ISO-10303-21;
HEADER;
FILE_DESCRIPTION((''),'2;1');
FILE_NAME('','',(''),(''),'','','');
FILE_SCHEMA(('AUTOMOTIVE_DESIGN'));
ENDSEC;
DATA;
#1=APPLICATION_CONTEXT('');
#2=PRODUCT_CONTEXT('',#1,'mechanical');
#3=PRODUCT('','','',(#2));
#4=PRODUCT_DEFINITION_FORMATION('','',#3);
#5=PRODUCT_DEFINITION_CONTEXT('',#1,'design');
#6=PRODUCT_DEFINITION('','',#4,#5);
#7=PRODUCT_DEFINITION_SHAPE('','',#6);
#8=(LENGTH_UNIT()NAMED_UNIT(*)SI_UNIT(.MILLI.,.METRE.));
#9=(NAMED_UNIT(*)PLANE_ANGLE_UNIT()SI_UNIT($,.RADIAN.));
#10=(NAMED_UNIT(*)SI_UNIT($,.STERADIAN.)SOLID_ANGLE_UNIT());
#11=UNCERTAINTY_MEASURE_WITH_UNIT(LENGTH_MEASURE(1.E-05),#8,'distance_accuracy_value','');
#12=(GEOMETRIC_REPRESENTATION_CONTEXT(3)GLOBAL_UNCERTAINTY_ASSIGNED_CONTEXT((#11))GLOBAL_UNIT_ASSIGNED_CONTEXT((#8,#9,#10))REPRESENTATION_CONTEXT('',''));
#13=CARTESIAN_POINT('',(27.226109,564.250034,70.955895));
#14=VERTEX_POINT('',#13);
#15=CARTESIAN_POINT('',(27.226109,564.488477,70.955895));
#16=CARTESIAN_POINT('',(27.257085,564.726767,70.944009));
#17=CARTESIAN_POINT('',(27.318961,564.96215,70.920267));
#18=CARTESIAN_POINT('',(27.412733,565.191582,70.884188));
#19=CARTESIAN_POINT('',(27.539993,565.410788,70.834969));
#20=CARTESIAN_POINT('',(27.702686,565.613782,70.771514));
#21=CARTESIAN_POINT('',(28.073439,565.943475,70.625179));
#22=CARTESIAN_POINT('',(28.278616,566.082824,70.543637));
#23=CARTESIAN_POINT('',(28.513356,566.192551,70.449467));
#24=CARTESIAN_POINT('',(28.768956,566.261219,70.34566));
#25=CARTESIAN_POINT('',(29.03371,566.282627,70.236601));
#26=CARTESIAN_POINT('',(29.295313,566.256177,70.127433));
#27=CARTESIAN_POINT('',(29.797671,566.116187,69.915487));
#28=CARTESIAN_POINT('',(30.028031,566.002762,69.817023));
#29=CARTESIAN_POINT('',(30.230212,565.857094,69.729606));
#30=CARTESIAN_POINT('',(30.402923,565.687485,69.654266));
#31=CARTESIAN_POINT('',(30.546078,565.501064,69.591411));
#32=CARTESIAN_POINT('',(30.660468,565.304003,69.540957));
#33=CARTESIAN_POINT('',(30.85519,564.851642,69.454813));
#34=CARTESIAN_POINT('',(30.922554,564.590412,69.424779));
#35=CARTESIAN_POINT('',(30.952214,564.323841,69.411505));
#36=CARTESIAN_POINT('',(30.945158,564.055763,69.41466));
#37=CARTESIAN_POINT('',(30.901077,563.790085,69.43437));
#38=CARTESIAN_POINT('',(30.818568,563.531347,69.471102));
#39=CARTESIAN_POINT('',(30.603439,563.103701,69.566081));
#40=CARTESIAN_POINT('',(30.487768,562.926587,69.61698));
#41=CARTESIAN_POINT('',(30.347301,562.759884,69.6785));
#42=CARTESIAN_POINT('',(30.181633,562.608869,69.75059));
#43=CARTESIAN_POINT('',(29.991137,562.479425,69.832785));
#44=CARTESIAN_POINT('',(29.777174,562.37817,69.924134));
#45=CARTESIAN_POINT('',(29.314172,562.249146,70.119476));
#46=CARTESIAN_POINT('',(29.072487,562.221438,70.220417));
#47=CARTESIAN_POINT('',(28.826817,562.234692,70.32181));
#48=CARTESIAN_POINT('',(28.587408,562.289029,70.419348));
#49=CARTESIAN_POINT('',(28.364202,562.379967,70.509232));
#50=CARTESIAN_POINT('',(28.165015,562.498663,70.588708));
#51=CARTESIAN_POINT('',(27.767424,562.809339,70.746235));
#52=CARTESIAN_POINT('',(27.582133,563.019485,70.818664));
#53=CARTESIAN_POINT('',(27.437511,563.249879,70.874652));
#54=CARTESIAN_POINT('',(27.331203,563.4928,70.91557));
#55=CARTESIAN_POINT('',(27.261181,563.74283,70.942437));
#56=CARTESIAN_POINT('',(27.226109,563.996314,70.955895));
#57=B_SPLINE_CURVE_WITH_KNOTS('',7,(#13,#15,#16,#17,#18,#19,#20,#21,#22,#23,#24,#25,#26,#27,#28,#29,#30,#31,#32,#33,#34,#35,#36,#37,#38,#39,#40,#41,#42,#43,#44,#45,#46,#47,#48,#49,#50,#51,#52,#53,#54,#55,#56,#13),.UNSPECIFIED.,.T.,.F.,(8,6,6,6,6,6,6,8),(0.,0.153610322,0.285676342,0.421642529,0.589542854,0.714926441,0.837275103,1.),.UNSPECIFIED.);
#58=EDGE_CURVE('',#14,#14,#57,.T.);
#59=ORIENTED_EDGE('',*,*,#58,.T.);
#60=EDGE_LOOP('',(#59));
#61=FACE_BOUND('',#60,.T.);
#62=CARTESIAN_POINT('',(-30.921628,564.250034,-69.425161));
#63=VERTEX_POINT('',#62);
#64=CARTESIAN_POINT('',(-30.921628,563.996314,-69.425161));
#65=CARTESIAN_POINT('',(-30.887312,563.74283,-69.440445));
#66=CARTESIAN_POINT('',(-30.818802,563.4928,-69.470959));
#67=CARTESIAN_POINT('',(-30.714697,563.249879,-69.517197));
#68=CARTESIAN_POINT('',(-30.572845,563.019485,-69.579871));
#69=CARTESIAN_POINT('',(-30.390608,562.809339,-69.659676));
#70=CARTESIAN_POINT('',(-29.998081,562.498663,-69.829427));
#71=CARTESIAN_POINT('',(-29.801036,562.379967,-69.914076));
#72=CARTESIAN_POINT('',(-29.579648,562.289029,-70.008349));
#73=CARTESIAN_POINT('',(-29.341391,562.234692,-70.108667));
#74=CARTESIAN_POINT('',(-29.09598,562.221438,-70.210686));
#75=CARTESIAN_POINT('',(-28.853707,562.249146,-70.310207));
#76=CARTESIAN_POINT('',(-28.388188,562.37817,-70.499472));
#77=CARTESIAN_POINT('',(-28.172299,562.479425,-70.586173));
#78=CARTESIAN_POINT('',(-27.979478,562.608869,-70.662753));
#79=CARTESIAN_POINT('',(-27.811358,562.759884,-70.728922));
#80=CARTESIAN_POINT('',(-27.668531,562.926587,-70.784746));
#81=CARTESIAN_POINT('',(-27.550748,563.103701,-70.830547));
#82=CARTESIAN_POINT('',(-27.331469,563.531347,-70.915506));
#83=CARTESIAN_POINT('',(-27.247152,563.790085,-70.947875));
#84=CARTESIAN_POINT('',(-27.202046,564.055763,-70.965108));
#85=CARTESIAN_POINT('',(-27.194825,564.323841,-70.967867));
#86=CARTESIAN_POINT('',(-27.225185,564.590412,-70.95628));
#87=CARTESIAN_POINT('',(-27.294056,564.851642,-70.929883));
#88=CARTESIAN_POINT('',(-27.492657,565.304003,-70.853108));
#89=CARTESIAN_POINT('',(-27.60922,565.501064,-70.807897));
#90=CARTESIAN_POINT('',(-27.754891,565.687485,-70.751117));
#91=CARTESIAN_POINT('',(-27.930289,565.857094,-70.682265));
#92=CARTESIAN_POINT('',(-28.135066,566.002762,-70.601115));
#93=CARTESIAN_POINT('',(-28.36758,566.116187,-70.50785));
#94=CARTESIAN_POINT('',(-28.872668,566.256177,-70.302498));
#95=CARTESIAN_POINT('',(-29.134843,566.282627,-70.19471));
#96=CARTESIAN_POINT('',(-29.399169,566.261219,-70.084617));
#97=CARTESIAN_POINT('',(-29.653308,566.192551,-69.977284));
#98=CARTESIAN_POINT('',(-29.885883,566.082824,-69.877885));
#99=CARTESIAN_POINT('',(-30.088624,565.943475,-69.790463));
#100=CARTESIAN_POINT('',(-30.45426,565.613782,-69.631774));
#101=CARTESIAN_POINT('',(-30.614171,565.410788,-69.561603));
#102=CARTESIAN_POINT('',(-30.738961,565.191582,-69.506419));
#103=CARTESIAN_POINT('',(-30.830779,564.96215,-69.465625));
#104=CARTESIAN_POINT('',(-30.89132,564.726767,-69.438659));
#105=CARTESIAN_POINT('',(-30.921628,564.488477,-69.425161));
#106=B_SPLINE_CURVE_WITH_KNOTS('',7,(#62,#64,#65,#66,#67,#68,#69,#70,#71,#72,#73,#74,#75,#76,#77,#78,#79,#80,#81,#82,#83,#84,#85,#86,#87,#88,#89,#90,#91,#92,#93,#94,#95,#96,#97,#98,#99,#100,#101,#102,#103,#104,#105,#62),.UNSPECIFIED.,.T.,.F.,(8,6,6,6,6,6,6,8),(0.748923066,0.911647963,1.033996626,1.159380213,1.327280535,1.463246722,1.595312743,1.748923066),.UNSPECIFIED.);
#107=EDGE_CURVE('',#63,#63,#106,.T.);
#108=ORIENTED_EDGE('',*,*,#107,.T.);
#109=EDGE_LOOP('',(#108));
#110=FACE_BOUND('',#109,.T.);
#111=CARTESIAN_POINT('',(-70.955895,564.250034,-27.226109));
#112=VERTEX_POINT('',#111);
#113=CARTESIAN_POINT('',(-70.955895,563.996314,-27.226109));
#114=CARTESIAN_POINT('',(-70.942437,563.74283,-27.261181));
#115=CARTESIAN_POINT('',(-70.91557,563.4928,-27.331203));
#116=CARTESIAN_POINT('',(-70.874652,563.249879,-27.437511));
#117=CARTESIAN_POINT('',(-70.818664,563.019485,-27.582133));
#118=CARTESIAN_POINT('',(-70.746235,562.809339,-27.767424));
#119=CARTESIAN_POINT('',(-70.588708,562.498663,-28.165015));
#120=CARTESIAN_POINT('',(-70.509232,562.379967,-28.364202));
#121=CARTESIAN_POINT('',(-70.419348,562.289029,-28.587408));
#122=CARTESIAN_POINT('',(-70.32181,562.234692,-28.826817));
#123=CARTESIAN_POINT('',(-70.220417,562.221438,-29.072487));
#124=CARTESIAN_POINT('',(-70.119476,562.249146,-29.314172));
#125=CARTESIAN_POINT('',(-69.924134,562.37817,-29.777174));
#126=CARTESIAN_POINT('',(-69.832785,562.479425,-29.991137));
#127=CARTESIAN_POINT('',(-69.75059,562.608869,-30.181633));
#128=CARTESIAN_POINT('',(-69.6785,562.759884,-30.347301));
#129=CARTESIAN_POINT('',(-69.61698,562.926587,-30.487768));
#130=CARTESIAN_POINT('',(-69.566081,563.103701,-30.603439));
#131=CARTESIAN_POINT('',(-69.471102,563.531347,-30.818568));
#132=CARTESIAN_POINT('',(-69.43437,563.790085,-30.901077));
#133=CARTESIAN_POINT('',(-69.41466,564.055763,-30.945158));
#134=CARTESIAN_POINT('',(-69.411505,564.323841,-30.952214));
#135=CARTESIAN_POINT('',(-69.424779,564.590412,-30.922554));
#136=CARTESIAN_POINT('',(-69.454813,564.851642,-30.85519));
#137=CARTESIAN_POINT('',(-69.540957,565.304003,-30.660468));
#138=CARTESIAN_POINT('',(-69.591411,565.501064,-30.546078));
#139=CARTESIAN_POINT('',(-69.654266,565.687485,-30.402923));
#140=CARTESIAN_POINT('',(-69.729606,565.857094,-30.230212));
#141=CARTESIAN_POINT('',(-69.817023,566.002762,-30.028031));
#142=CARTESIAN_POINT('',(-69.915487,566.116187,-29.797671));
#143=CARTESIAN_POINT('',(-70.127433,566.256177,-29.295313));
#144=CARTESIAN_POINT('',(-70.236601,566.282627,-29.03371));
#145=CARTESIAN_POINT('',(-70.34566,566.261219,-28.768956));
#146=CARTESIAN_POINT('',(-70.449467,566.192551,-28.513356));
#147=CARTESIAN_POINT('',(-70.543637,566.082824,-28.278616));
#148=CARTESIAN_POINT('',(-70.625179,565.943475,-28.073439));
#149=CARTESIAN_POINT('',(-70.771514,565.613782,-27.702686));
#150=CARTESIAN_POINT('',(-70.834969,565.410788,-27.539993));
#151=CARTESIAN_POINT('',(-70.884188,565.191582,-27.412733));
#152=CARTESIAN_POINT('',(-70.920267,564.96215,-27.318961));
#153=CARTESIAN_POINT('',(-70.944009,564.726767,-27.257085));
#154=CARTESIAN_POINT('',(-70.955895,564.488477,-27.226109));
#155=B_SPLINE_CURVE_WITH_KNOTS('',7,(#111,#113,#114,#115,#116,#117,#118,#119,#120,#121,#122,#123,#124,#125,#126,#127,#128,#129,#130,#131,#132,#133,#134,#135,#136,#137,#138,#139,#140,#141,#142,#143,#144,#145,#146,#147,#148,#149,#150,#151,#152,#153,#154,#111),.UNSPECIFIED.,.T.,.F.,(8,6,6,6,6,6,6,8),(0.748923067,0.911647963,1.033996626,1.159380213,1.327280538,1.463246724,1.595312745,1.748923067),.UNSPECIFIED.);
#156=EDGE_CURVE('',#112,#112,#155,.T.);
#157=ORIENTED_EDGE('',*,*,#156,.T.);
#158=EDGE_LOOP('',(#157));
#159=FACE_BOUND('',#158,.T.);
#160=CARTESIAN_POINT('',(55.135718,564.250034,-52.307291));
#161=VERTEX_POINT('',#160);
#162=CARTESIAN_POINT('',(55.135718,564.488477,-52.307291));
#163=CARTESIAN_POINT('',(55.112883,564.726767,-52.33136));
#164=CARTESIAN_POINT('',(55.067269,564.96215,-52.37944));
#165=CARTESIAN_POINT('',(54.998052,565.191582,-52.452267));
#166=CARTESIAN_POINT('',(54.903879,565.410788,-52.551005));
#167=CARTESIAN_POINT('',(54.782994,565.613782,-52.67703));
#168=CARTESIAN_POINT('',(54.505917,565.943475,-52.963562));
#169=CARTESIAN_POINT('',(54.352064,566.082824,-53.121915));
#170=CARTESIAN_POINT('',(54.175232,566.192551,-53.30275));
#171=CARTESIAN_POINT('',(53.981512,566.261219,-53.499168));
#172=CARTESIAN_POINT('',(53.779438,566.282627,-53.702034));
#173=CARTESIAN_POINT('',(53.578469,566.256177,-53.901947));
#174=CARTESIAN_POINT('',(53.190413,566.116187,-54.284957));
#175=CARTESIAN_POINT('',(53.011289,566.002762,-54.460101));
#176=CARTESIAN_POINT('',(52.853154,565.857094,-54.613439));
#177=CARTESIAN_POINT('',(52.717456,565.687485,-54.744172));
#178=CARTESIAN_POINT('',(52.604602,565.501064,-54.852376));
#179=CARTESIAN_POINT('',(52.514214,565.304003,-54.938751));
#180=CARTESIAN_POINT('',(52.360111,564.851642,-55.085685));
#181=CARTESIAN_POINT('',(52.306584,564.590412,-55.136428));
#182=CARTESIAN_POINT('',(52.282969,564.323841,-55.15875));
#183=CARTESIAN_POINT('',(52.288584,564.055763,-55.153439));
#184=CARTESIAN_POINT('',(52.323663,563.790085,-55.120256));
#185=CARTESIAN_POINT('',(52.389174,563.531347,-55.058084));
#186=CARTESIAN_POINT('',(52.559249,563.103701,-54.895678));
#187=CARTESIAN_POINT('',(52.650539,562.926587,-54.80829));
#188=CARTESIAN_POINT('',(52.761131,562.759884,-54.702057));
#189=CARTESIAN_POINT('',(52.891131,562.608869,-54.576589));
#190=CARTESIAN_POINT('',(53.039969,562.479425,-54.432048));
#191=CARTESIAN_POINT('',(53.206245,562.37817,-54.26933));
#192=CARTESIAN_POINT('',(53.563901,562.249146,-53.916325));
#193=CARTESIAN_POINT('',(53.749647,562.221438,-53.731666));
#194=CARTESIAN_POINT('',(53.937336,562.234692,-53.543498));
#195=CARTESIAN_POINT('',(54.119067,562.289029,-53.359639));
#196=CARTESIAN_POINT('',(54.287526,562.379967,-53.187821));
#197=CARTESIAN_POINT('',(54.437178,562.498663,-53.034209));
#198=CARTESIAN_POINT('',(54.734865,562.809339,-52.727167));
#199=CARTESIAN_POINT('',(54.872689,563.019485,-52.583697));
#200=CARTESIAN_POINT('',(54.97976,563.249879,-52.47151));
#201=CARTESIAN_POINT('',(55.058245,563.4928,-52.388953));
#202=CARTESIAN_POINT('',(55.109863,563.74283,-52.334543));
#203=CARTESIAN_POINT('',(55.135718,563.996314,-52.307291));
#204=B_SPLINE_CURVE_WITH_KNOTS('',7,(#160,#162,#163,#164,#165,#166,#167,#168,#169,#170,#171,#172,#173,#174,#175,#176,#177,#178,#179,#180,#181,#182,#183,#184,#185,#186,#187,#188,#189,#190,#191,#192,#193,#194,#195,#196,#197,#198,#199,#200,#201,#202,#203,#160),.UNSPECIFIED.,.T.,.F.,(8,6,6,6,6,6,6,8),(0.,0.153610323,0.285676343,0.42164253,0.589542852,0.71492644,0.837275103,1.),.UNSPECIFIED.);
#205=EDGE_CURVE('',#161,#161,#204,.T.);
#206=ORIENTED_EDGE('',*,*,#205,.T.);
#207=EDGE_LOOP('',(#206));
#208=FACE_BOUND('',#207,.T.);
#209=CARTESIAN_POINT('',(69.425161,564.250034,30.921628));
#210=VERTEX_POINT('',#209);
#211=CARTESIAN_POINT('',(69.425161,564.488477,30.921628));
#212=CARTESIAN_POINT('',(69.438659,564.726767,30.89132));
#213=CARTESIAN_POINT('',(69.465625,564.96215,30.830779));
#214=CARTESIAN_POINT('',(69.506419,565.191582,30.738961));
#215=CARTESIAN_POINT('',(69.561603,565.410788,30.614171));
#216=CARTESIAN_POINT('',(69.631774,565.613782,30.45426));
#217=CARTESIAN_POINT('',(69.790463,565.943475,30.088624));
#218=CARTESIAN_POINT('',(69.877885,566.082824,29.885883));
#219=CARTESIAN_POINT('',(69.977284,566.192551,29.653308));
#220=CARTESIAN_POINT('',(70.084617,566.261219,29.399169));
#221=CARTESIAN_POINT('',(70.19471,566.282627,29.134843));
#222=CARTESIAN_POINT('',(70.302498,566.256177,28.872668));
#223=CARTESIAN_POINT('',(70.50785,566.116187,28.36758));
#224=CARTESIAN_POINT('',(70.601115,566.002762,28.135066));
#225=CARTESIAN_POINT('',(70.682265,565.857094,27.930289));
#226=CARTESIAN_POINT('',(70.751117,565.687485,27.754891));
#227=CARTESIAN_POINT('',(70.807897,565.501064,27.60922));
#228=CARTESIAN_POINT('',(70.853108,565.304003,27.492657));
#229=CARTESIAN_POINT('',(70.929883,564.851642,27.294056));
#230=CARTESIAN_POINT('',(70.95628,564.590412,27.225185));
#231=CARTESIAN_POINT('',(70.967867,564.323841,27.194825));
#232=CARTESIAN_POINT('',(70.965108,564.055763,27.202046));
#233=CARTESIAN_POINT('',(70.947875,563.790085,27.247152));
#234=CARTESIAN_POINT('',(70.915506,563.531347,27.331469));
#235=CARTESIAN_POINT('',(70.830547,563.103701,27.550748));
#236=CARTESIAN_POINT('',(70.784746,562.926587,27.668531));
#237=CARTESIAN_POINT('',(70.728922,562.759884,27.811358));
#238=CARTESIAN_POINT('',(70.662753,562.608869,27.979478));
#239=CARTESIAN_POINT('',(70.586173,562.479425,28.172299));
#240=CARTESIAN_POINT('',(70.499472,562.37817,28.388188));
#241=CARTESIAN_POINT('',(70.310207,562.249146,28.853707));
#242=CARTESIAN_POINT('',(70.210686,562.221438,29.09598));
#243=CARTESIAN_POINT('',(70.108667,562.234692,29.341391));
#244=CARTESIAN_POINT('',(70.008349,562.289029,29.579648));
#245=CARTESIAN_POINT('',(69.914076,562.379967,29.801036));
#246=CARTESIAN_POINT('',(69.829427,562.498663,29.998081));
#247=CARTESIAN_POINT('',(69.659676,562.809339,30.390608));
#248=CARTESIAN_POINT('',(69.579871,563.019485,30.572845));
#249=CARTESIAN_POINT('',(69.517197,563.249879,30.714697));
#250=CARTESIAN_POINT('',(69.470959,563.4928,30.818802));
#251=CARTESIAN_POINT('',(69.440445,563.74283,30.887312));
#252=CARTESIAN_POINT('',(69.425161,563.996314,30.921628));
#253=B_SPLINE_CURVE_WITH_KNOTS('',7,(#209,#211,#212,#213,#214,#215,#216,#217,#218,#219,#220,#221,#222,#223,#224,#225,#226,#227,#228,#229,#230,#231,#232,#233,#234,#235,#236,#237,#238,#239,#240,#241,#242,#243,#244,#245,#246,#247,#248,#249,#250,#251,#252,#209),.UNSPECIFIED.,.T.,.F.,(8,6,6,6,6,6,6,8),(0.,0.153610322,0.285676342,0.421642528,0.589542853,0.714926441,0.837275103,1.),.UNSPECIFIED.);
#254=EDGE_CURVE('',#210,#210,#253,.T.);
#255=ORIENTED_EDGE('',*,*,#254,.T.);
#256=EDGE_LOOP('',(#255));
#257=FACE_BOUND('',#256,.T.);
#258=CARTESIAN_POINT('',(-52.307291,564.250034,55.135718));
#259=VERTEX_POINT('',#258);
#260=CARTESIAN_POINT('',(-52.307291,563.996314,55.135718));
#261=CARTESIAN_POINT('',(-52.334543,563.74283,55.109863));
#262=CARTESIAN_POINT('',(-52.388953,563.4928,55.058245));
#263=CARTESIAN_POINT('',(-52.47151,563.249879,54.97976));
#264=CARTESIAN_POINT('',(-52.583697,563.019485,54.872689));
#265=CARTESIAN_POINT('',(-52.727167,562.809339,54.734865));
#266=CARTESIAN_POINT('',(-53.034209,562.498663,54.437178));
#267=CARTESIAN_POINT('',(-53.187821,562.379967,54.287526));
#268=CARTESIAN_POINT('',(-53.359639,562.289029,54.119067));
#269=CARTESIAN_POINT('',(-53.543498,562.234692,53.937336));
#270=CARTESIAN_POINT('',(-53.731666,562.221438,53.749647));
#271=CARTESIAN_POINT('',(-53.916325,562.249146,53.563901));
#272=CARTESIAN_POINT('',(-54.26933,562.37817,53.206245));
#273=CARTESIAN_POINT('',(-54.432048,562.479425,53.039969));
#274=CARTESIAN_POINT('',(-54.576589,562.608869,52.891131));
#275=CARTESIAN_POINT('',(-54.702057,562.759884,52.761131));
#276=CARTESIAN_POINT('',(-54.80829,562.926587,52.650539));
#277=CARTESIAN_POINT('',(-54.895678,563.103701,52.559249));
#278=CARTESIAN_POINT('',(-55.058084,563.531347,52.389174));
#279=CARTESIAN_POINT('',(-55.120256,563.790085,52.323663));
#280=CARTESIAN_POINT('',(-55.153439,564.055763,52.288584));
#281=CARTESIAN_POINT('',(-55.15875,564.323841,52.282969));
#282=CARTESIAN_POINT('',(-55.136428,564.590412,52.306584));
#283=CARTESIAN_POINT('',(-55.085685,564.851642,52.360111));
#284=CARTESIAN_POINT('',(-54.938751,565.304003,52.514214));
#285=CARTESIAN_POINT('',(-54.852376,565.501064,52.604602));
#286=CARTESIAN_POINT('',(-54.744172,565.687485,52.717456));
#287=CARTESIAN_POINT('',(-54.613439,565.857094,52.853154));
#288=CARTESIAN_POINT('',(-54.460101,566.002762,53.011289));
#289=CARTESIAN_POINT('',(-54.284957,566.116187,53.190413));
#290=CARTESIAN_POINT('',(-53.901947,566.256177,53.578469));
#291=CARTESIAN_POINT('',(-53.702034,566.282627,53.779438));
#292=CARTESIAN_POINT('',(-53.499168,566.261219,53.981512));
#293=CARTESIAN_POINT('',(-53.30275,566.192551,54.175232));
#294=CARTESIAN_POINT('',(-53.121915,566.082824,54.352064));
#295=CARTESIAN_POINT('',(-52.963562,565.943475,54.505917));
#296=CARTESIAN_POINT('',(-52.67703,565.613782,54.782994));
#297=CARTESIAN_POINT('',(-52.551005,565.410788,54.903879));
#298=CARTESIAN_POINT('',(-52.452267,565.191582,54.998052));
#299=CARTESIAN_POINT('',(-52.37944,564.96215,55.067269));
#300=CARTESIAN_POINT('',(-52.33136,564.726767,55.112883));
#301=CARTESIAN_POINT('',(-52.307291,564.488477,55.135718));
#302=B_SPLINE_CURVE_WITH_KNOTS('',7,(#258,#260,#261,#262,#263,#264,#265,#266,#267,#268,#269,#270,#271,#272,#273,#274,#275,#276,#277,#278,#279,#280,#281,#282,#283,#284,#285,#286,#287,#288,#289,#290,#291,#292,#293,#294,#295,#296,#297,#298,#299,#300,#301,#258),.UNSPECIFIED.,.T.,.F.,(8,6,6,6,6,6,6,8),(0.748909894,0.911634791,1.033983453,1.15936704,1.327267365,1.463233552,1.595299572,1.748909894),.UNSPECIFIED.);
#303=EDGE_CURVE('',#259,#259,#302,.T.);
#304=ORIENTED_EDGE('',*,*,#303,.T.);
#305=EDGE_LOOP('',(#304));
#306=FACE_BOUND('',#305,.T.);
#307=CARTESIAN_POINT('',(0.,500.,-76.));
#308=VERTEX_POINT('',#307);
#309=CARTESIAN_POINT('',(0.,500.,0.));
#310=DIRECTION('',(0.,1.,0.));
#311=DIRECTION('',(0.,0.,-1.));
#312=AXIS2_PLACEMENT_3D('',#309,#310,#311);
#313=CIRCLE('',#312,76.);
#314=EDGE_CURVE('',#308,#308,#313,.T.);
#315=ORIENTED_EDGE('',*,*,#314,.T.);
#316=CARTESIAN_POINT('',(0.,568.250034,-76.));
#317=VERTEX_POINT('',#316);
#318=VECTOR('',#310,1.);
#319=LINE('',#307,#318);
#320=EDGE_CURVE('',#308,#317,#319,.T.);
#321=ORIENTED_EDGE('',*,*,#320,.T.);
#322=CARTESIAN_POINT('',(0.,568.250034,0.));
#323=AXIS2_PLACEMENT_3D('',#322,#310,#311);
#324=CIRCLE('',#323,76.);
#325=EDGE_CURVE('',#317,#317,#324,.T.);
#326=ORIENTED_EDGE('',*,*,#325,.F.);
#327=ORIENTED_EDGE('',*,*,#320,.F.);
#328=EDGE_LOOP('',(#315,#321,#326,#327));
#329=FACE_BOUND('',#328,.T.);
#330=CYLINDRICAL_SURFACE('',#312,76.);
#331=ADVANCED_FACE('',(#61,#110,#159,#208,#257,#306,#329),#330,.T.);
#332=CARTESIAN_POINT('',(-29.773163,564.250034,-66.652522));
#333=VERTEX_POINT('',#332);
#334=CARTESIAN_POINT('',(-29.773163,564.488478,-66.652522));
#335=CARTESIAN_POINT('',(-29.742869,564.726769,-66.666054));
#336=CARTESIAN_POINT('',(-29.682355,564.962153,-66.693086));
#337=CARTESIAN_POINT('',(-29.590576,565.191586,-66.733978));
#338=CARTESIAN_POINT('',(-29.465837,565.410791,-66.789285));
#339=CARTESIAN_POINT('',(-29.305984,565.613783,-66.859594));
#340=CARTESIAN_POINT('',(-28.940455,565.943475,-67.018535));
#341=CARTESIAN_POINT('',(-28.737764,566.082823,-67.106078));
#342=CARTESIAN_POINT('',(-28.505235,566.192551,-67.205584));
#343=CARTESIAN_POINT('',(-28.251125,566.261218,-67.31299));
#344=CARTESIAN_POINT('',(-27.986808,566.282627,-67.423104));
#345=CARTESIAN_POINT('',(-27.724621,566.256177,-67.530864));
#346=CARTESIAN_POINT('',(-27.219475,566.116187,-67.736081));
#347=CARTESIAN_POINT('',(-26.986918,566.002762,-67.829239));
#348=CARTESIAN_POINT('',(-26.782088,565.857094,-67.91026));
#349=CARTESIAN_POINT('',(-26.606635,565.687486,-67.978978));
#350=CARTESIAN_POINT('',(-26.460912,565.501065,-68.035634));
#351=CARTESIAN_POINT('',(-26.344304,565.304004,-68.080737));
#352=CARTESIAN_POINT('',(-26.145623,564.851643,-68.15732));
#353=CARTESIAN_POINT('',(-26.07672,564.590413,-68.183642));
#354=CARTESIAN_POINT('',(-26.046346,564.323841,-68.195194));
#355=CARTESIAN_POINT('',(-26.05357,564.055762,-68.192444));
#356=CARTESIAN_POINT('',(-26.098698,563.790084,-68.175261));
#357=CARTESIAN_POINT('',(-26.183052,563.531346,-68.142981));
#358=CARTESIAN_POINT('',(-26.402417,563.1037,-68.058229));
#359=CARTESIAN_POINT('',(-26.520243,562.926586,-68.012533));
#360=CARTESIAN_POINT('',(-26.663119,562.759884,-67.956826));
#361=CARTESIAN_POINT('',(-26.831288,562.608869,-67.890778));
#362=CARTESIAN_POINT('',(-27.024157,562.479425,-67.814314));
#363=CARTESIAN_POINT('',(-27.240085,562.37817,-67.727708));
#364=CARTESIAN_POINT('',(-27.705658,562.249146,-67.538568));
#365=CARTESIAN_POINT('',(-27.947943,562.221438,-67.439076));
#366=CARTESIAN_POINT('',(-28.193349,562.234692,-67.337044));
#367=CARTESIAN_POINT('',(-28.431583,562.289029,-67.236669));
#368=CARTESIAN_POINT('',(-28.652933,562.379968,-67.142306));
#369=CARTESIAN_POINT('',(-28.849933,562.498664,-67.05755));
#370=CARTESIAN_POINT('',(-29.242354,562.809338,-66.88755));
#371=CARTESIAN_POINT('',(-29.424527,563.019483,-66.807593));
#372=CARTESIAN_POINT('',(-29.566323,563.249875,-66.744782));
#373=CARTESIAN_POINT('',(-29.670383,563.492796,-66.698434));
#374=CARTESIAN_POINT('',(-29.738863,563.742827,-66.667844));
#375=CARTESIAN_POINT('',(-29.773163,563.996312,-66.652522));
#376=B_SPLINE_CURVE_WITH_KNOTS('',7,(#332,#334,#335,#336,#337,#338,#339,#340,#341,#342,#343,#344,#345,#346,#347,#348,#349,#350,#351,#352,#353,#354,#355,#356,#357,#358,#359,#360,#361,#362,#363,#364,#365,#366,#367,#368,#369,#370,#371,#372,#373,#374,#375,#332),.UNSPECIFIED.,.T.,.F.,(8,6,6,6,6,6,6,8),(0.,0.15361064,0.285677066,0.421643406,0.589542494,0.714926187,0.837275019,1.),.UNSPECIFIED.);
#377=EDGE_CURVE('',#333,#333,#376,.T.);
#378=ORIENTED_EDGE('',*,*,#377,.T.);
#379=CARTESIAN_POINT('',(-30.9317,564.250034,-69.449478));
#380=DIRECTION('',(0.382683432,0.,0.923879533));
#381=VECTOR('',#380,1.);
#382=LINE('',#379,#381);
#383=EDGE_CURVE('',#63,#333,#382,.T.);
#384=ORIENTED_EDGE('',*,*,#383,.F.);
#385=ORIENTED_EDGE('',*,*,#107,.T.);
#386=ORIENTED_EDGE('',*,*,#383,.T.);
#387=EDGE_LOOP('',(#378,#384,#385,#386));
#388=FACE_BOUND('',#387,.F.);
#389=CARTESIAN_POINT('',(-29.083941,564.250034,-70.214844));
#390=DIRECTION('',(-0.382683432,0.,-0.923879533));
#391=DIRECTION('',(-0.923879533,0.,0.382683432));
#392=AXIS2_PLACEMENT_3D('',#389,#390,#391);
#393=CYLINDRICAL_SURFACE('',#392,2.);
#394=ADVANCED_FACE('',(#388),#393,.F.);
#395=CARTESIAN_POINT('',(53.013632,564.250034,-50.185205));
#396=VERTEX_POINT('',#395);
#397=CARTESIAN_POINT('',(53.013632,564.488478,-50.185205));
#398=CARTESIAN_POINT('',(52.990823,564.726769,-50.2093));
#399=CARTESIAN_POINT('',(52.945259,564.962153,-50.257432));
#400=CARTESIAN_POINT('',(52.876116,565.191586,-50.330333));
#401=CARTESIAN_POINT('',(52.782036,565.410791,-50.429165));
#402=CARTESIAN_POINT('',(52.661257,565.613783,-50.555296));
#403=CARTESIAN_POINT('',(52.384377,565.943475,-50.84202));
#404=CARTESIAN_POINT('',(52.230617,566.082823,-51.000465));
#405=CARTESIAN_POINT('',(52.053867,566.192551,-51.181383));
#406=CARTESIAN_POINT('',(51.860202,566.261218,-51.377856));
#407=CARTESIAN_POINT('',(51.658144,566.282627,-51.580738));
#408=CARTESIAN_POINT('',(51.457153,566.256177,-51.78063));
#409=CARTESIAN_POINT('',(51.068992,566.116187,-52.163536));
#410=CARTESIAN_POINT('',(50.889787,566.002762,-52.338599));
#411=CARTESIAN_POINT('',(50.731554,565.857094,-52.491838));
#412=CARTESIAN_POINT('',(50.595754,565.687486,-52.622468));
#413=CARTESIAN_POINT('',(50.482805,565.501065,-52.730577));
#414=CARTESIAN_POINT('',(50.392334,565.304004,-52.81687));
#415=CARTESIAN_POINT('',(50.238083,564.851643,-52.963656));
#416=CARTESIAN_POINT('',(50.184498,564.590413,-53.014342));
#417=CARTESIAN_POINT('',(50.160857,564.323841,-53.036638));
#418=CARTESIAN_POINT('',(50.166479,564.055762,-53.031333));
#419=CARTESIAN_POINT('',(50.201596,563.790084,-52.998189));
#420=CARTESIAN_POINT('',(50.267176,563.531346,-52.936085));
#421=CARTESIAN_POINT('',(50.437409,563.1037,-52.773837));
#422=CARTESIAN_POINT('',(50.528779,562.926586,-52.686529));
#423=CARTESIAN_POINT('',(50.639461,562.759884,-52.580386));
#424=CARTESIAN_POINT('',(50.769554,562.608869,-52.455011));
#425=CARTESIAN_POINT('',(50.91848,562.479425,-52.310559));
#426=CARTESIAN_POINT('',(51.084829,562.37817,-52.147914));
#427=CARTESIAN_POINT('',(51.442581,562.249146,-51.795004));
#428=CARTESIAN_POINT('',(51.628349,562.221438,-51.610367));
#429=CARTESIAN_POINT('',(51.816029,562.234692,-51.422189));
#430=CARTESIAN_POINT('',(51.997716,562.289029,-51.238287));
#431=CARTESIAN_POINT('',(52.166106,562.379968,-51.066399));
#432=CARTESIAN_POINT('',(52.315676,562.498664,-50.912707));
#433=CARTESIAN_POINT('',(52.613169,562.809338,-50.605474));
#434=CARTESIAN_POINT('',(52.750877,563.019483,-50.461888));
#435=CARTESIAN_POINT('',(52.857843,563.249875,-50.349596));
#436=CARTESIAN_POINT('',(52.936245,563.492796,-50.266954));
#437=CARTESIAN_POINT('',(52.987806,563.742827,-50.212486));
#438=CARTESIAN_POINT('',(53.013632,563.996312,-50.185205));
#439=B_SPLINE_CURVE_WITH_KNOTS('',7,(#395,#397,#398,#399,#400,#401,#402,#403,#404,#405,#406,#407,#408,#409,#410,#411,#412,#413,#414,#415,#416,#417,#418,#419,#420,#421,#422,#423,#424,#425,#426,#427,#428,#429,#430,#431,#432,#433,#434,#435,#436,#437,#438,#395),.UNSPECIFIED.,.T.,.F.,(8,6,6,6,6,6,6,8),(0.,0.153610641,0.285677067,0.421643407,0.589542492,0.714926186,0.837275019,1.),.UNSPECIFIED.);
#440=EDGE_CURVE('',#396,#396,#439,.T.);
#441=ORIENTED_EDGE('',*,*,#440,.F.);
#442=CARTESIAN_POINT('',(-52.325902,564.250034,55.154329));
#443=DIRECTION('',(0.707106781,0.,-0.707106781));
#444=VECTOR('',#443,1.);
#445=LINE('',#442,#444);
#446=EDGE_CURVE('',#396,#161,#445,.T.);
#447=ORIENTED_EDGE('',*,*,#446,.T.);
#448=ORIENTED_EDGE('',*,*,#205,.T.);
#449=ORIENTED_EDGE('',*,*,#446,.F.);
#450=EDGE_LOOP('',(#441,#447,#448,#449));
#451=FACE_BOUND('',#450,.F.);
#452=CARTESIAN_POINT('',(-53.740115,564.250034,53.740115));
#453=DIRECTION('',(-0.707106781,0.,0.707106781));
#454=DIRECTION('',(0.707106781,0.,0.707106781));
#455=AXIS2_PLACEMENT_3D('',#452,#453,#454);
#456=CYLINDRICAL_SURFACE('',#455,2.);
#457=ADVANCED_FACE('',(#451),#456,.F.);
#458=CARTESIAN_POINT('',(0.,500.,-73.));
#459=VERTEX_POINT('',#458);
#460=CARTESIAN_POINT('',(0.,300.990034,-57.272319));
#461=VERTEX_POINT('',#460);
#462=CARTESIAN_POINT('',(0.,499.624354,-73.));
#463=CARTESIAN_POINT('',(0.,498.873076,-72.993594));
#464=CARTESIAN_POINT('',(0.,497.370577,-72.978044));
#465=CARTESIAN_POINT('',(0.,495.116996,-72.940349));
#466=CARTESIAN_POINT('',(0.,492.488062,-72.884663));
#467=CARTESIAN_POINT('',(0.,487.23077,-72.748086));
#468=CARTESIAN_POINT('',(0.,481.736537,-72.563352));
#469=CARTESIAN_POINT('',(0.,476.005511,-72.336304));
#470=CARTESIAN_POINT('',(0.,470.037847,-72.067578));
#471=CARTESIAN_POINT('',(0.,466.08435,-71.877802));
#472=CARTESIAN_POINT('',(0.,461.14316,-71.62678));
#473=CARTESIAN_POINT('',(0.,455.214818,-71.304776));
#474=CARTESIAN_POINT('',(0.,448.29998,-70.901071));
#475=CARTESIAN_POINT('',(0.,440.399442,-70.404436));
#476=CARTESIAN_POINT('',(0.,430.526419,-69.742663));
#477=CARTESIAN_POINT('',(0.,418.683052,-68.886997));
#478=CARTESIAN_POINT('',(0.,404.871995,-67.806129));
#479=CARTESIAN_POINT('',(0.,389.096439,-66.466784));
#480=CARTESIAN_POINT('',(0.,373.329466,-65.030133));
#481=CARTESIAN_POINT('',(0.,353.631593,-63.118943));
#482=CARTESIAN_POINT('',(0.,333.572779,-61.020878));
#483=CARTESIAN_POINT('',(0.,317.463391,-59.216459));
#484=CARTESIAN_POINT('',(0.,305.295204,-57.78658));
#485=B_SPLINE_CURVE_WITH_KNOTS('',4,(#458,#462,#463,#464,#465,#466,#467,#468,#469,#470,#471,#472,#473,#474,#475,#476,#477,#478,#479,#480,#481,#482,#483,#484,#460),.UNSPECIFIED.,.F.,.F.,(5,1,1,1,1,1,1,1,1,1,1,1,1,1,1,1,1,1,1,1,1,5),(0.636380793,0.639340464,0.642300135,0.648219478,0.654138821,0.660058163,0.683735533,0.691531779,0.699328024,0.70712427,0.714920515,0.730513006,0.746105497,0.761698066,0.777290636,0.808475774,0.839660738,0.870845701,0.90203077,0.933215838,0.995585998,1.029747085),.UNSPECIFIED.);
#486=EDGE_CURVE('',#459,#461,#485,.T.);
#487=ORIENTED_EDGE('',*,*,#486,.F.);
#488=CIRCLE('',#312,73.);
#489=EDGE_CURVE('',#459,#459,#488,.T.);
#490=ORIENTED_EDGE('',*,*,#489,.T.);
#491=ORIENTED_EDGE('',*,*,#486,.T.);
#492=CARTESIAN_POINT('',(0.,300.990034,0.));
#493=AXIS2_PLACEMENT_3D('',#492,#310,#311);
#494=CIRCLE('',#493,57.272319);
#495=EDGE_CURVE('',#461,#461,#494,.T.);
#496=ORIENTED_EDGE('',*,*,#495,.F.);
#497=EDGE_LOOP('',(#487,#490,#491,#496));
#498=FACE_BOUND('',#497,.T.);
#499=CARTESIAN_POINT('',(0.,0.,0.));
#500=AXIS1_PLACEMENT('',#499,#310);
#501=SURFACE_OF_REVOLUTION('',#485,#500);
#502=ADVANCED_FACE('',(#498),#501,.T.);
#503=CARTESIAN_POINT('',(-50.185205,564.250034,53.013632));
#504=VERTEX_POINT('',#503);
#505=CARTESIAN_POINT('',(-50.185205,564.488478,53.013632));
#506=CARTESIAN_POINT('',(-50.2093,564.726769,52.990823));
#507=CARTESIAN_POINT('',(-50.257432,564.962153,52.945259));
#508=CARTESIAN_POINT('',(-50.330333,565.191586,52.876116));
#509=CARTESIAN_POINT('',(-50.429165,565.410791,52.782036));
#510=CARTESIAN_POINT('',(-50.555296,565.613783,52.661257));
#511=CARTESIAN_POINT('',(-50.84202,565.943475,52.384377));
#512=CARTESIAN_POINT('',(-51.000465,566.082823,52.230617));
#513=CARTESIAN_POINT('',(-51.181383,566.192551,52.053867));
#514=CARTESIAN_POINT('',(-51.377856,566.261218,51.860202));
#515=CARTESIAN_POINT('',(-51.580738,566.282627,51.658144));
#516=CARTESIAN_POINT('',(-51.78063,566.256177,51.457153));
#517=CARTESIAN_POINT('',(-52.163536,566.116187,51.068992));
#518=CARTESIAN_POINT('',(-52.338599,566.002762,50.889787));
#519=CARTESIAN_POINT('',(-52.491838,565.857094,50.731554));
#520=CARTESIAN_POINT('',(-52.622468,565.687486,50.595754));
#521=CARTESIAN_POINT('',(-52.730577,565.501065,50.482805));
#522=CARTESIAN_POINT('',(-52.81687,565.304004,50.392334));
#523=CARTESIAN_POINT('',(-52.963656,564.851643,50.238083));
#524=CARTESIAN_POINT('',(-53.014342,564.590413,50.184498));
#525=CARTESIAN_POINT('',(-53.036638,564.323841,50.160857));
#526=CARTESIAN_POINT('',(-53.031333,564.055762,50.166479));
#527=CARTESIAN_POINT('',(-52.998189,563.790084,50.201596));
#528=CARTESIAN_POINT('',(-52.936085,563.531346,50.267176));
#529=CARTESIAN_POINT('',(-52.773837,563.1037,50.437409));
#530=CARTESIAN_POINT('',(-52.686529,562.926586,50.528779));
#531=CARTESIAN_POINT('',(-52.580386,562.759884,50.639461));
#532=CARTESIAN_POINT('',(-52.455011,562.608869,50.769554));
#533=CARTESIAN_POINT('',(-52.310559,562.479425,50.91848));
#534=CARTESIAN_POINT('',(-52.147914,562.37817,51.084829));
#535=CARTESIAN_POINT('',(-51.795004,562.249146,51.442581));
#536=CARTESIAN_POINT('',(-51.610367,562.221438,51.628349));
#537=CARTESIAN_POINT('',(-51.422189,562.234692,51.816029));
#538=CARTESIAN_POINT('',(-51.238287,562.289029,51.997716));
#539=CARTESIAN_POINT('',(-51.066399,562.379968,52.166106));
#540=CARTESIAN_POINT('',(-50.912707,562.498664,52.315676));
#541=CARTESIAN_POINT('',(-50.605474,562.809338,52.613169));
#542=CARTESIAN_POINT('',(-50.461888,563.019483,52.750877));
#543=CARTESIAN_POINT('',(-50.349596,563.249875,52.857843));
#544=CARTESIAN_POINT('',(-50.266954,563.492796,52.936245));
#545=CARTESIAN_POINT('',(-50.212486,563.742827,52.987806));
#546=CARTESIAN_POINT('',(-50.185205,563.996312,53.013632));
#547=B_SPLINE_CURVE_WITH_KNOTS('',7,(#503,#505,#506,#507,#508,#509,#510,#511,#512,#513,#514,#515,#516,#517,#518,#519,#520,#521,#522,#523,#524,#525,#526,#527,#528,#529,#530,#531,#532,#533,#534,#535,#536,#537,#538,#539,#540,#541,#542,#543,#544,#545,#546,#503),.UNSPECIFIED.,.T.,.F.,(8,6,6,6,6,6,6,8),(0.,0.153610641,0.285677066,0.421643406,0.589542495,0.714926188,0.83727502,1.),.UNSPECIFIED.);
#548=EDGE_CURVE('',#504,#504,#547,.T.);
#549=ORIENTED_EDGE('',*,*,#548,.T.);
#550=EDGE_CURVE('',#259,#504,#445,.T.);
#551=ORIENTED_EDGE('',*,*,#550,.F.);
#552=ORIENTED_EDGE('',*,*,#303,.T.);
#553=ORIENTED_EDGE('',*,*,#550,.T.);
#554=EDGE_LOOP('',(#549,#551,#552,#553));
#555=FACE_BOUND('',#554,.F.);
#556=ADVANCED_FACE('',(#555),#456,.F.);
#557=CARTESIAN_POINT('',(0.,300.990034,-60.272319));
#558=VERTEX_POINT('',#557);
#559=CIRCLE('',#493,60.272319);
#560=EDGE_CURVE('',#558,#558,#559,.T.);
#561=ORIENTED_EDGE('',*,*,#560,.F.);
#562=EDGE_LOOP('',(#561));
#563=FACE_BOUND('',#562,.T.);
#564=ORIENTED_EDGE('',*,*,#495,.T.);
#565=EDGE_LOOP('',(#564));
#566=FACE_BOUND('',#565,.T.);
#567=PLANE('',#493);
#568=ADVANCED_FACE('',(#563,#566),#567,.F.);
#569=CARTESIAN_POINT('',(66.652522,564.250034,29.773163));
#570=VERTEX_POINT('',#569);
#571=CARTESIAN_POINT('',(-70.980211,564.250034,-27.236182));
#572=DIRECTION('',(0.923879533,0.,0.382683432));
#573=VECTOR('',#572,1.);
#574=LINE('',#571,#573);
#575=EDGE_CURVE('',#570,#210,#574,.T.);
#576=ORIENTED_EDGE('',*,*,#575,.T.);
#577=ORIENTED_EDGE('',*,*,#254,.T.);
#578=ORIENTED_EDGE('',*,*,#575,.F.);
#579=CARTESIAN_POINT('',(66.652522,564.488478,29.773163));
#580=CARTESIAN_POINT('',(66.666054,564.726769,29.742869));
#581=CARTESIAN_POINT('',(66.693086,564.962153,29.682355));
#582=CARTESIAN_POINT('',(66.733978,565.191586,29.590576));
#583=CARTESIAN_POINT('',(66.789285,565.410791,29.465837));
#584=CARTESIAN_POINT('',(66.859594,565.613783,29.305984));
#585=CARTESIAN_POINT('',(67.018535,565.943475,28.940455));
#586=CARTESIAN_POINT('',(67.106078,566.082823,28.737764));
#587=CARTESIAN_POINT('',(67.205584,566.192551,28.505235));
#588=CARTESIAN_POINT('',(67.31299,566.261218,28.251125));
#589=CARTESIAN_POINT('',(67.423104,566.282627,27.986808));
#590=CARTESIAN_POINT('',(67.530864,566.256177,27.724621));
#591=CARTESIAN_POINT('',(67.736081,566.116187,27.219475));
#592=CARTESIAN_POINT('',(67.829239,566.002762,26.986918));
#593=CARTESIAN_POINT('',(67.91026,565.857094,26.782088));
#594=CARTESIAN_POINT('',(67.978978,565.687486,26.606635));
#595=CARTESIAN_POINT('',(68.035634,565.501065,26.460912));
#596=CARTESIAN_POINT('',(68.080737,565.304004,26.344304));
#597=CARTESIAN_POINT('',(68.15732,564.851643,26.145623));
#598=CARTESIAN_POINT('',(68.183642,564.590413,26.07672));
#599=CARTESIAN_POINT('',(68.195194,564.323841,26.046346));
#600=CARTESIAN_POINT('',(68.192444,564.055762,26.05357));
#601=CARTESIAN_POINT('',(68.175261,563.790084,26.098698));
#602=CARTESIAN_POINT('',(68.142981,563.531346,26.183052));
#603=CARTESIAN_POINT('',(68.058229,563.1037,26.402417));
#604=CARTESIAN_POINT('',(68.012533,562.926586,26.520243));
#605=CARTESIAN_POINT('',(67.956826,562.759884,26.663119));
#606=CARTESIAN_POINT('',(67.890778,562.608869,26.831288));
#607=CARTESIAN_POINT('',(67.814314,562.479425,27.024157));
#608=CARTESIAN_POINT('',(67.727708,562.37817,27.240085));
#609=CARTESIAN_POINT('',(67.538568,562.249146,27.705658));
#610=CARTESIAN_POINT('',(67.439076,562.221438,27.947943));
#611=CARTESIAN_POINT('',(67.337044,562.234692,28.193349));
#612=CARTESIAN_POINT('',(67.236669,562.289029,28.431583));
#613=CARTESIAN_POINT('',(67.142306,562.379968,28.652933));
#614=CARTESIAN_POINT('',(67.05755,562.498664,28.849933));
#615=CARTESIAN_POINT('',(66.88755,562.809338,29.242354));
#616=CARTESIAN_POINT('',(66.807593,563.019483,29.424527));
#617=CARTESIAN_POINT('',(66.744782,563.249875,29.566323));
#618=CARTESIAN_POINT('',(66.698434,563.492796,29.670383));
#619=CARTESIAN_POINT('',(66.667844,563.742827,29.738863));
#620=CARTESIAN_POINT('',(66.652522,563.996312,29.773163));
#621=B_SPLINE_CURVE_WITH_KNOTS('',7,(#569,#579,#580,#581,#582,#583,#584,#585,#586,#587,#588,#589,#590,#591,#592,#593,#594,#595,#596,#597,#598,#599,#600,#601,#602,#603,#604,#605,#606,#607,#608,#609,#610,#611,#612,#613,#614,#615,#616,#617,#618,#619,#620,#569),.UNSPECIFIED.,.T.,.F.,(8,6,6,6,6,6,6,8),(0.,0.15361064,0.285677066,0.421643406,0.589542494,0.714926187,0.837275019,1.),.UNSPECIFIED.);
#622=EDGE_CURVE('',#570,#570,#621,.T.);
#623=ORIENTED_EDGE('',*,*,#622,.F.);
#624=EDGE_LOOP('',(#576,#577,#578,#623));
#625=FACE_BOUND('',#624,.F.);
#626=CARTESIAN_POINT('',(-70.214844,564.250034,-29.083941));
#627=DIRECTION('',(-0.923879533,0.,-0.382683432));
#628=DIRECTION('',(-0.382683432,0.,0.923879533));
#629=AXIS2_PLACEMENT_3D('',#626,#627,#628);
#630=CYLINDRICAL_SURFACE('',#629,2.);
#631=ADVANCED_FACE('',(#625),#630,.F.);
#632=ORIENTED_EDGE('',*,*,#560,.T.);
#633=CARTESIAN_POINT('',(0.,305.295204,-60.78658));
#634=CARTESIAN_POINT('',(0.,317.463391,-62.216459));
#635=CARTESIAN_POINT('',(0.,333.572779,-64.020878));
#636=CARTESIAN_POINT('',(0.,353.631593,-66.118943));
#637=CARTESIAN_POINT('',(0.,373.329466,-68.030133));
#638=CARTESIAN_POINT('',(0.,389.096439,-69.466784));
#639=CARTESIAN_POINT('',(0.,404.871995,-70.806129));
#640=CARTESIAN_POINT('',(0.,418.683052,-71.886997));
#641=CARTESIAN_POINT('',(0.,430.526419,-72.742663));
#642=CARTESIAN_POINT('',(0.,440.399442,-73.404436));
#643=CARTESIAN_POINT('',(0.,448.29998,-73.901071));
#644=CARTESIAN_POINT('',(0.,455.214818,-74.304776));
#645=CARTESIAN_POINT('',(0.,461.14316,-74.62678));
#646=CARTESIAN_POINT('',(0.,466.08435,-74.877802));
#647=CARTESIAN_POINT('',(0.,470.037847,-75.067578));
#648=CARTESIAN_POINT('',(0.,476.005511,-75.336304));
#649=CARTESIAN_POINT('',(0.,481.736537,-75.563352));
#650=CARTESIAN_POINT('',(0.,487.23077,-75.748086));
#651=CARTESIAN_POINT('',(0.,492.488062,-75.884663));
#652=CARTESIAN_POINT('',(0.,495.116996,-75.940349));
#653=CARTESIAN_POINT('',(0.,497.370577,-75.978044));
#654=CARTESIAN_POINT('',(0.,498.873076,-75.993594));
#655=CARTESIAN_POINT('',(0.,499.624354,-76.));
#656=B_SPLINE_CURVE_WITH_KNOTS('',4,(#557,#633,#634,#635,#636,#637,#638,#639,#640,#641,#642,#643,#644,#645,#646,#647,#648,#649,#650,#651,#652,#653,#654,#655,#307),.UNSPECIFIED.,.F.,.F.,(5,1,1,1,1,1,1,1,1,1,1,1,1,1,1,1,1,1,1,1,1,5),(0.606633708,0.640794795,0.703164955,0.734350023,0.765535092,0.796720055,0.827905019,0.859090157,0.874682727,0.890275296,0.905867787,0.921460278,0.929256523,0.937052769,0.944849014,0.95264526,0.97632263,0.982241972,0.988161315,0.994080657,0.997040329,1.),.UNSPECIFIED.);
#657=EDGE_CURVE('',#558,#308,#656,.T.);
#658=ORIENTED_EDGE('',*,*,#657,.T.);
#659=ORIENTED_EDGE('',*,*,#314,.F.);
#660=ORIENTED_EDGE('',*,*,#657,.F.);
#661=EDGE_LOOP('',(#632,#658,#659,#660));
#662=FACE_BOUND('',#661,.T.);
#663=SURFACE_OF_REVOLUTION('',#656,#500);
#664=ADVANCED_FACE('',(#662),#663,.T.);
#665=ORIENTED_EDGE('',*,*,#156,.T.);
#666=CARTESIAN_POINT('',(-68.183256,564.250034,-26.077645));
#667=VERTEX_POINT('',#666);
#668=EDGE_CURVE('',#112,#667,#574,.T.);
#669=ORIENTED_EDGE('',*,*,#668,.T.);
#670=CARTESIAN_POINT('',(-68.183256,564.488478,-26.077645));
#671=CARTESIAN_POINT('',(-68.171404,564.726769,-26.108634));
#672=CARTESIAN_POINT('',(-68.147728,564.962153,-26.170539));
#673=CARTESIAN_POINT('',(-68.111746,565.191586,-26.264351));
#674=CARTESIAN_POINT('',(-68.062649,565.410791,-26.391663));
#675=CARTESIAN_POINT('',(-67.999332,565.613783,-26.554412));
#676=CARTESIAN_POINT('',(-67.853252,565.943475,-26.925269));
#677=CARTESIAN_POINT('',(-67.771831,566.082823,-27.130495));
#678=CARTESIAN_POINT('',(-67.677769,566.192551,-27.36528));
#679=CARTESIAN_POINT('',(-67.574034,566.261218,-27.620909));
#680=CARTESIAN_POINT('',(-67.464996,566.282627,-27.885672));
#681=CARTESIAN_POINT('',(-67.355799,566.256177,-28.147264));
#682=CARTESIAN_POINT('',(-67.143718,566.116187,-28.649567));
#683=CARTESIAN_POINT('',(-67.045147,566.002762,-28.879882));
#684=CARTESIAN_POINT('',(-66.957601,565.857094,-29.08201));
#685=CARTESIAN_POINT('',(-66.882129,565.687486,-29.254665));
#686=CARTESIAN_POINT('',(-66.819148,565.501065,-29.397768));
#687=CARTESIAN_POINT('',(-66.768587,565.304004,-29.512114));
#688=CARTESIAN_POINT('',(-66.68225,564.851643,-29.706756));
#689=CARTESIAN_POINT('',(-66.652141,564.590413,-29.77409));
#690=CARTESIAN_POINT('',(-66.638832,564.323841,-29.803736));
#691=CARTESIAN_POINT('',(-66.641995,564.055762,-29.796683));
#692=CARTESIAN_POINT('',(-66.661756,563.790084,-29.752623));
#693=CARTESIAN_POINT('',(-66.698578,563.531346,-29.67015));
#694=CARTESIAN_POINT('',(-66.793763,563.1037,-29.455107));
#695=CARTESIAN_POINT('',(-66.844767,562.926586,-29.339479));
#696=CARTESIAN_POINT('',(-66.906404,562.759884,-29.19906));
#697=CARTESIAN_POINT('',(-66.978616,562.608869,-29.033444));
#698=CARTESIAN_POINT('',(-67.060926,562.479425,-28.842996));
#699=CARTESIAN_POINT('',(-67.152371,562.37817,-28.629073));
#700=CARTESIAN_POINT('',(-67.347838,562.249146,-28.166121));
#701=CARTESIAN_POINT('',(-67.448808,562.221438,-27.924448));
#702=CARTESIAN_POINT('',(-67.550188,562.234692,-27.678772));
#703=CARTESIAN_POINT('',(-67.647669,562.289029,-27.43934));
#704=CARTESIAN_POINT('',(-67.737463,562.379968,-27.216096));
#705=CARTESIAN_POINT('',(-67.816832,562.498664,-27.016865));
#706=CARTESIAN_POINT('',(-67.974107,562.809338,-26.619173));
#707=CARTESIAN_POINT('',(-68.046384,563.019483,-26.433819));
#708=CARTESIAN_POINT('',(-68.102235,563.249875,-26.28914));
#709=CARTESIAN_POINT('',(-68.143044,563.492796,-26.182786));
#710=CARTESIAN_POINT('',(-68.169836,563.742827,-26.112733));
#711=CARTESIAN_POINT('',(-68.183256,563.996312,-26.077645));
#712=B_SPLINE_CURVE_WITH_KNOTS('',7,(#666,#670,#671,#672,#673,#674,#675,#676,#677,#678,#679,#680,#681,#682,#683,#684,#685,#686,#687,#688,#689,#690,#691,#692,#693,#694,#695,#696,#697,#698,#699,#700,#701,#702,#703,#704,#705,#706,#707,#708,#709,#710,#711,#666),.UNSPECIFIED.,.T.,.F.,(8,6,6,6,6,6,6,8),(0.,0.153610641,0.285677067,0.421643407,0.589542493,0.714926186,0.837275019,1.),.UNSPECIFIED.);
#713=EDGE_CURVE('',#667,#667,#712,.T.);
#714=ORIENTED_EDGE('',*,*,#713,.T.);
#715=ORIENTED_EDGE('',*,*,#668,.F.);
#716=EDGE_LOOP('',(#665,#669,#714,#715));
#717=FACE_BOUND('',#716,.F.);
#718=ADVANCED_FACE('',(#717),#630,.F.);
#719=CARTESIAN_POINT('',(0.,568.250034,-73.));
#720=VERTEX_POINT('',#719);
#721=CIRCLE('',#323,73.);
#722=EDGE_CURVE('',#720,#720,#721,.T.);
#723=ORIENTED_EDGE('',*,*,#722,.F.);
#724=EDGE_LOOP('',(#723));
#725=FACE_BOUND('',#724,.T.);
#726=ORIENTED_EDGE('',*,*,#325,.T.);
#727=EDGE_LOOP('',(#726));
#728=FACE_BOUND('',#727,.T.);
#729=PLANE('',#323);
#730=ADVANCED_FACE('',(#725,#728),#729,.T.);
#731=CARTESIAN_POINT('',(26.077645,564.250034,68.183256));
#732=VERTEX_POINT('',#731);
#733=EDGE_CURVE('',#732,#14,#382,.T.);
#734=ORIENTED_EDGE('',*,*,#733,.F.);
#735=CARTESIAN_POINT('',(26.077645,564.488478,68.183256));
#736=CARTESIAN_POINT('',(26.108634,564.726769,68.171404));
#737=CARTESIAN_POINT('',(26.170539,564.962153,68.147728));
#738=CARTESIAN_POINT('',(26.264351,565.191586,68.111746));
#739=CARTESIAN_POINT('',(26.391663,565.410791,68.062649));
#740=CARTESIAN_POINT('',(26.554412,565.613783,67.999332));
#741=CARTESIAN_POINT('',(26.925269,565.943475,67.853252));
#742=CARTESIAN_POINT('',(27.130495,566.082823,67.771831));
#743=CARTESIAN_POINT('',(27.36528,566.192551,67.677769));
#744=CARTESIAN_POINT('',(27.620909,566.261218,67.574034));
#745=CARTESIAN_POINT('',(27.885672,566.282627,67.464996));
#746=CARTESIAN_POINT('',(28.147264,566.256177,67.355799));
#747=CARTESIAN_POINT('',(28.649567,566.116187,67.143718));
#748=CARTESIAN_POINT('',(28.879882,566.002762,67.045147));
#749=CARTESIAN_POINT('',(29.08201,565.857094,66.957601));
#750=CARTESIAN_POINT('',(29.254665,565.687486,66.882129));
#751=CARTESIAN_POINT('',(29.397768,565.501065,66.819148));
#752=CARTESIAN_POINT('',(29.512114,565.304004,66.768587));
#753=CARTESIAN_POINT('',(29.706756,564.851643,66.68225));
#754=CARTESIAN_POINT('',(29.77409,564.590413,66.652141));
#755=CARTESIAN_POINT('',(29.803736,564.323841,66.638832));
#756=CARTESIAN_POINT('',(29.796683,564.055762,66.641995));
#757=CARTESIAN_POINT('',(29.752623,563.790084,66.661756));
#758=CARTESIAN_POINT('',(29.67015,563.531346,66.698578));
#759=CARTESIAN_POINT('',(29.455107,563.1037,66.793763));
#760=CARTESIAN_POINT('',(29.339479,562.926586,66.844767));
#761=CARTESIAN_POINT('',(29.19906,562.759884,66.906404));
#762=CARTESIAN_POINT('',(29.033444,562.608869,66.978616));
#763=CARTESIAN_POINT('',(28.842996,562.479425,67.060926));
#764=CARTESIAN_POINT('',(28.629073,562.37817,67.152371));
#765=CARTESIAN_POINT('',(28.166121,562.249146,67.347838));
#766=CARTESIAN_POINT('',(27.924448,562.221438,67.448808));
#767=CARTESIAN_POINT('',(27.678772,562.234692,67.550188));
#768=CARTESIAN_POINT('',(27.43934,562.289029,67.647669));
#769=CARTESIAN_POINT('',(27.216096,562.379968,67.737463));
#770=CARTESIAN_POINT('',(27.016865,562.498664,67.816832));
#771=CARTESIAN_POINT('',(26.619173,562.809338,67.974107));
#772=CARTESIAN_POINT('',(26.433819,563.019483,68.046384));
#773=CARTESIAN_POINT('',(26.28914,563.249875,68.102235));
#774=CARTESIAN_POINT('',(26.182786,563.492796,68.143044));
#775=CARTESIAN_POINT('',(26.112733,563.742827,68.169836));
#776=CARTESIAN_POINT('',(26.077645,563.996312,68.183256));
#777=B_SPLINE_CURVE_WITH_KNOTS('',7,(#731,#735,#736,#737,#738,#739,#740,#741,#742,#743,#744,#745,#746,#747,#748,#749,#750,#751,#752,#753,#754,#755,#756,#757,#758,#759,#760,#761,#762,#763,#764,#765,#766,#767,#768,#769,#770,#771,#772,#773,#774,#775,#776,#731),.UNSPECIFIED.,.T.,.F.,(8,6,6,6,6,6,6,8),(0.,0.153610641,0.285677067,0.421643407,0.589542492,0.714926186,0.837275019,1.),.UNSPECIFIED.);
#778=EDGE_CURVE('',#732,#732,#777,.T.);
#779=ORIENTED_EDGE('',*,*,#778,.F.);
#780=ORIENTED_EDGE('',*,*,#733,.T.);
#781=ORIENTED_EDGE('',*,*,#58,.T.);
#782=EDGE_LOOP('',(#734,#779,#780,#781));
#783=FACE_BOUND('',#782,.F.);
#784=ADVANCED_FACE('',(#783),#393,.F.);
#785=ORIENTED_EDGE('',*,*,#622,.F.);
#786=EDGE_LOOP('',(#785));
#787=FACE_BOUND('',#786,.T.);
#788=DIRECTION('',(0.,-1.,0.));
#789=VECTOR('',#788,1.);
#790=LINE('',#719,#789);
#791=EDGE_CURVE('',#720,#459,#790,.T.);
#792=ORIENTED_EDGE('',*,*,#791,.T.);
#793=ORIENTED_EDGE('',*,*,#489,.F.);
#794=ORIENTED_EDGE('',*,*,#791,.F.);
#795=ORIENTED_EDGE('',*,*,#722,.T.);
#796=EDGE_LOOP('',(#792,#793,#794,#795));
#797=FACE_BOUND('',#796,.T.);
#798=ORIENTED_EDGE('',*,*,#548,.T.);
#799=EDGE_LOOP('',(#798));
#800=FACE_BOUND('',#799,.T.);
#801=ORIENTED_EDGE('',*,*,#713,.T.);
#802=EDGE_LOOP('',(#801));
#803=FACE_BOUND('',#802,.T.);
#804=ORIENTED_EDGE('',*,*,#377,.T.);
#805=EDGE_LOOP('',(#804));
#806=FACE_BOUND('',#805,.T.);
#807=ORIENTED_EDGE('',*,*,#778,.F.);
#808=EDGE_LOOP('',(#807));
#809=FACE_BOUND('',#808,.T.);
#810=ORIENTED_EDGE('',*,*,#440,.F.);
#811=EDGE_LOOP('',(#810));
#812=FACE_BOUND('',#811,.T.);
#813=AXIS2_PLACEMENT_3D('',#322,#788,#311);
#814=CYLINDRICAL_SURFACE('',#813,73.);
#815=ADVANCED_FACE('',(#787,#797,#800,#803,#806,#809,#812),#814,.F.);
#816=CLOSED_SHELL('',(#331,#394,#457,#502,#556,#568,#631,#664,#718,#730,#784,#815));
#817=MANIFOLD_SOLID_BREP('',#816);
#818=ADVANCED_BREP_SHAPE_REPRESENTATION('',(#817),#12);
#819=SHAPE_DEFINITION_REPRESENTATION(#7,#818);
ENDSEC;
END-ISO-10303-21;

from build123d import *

# Parameters (mm, degrees)
SKETCH4_R          = 2
CUT_EXTRUDE1_DEPTH = 598.137418243
SKETCH5_R          = 2
CUT_EXTRUDE2_DEPTH = 597.095224503
SKETCH6_R          = 2
CUT_EXTRUDE3_DEPTH = 597.095224503


with BuildPart() as part:
    # Sketch1 → Revolve2 (revolve)
    with BuildSketch(Plane.XY, mode=Mode.PRIVATE) as revolve2_sk:
        with BuildLine():
            Line((57.272319057, 300.990034), (60.272319057, 300.990034))
            add(Edge.make_bspline(
                [(60.272319057, 300.990034), (60.786580015, 305.295203792), (62.216459446, 317.463391064), (64.020877786, 333.572779096), (66.11894295, 353.631593101), (68.030132581, 373.329466343), (69.466784443, 389.09643856), (70.806129018, 404.87199461), (71.886996993, 418.683052253), (72.742662769, 430.526418849), (73.404435972, 440.399441684), (73.901071328, 448.299980017), (74.304775576, 455.214817724), (74.62677953, 461.143160456), (74.877801518, 466.084350078), (75.067577987, 470.037846817), (75.336303636, 476.005510657), (75.563352259, 481.736537174), (75.748085722, 487.230769759), (75.884662604, 492.488061525), (75.940348523, 495.116996281), (75.978043797, 497.370577281), (75.993594118, 498.87307617), (76, 499.624354134), (76, 500)],
                knots=[0.606633708, 0.606633708, 0.606633708, 0.606633708, 0.606633708, 0.640794795, 0.703164955, 0.734350023, 0.765535092, 0.796720055, 0.827905019, 0.859090157, 0.874682727, 0.890275296, 0.905867787, 0.921460278, 0.929256523, 0.937052769, 0.944849014, 0.95264526, 0.97632263, 0.982241972, 0.988161315, 0.994080657, 0.997040329, 1, 1, 1, 1, 1], degree=4))
            Line((76, 500), (76, 568.250034))
            Line((76, 568.250034), (73, 568.250034))
            Line((73, 568.250034), (73, 500))
            add(Edge.make_bspline(
                [(73, 500), (73, 499.624354134), (72.993594118, 498.87307617), (72.978043797, 497.370577281), (72.940348523, 495.116996281), (72.884662604, 492.488061525), (72.748085722, 487.230769759), (72.563352259, 481.736537174), (72.336303636, 476.005510657), (72.067577987, 470.037846817), (71.877801518, 466.084350078), (71.62677953, 461.143160456), (71.304775576, 455.214817724), (70.901071328, 448.299980017), (70.404435972, 440.399441684), (69.742662769, 430.526418849), (68.886996993, 418.683052253), (67.806129018, 404.87199461), (66.466784443, 389.09643856), (65.030132581, 373.329466343), (63.11894295, 353.631593101), (61.020877786, 333.572779096), (59.216459446, 317.463391064), (57.786580015, 305.295203792), (57.272319057, 300.990034)],
                knots=[0.636380793, 0.636380793, 0.636380793, 0.636380793, 0.636380793, 0.639340464, 0.642300135, 0.648219478, 0.654138821, 0.660058163, 0.683735533, 0.691531779, 0.699328024, 0.70712427, 0.714920515, 0.730513006, 0.746105497, 0.761698066, 0.777290636, 0.808475774, 0.839660738, 0.870845701, 0.90203077, 0.933215838, 0.995585998, 1.029747085, 1.029747085, 1.029747085, 1.029747085, 1.029747085], degree=4))
        make_face()
    revolve(revolve2_sk.sketch.rotate(Axis((0, 0, 0), (0, 1, 0)), 90), axis=Axis((0, 0, 0), (0, 1, 0)))

    # Sketch4 → Cut-Extrude1 (cut, through all)
    with BuildSketch(Plane(origin=(-53.74011537, 0, 53.74011537), x_dir=(0.7071067811865517, 0, 0.7071067811865435), z_dir=(-0.7071067811865435, 0, 0.7071067811865517))):
        with Locations((0, 564.250034)):
            Circle(SKETCH4_R)
    extrude(amount=-CUT_EXTRUDE1_DEPTH, mode=Mode.SUBTRACT)

    # Sketch5 → Cut-Extrude2 (cut, through all)
    with BuildSketch(Plane(origin=(-70.214844471, 0, -29.08394086), x_dir=(-0.3826834323650874, 0, 0.9238795325112878), z_dir=(-0.9238795325112878, 0, -0.3826834323650874))):
        with Locations((0, 564.250034)):
            Circle(SKETCH5_R)
    extrude(amount=-CUT_EXTRUDE2_DEPTH, mode=Mode.SUBTRACT)

    # Sketch6 → Cut-Extrude3 (cut, through all)
    with BuildSketch(Plane(origin=(-29.08394086, 0, -70.214844471), x_dir=(-0.9238795325112864, 0, 0.38268343236509067), z_dir=(-0.38268343236509067, 0, -0.9238795325112864))):
        with Locations((0, 564.250034)):
            Circle(SKETCH6_R)
    extrude(amount=-CUT_EXTRUDE3_DEPTH, mode=Mode.SUBTRACT)


solid = part.part
